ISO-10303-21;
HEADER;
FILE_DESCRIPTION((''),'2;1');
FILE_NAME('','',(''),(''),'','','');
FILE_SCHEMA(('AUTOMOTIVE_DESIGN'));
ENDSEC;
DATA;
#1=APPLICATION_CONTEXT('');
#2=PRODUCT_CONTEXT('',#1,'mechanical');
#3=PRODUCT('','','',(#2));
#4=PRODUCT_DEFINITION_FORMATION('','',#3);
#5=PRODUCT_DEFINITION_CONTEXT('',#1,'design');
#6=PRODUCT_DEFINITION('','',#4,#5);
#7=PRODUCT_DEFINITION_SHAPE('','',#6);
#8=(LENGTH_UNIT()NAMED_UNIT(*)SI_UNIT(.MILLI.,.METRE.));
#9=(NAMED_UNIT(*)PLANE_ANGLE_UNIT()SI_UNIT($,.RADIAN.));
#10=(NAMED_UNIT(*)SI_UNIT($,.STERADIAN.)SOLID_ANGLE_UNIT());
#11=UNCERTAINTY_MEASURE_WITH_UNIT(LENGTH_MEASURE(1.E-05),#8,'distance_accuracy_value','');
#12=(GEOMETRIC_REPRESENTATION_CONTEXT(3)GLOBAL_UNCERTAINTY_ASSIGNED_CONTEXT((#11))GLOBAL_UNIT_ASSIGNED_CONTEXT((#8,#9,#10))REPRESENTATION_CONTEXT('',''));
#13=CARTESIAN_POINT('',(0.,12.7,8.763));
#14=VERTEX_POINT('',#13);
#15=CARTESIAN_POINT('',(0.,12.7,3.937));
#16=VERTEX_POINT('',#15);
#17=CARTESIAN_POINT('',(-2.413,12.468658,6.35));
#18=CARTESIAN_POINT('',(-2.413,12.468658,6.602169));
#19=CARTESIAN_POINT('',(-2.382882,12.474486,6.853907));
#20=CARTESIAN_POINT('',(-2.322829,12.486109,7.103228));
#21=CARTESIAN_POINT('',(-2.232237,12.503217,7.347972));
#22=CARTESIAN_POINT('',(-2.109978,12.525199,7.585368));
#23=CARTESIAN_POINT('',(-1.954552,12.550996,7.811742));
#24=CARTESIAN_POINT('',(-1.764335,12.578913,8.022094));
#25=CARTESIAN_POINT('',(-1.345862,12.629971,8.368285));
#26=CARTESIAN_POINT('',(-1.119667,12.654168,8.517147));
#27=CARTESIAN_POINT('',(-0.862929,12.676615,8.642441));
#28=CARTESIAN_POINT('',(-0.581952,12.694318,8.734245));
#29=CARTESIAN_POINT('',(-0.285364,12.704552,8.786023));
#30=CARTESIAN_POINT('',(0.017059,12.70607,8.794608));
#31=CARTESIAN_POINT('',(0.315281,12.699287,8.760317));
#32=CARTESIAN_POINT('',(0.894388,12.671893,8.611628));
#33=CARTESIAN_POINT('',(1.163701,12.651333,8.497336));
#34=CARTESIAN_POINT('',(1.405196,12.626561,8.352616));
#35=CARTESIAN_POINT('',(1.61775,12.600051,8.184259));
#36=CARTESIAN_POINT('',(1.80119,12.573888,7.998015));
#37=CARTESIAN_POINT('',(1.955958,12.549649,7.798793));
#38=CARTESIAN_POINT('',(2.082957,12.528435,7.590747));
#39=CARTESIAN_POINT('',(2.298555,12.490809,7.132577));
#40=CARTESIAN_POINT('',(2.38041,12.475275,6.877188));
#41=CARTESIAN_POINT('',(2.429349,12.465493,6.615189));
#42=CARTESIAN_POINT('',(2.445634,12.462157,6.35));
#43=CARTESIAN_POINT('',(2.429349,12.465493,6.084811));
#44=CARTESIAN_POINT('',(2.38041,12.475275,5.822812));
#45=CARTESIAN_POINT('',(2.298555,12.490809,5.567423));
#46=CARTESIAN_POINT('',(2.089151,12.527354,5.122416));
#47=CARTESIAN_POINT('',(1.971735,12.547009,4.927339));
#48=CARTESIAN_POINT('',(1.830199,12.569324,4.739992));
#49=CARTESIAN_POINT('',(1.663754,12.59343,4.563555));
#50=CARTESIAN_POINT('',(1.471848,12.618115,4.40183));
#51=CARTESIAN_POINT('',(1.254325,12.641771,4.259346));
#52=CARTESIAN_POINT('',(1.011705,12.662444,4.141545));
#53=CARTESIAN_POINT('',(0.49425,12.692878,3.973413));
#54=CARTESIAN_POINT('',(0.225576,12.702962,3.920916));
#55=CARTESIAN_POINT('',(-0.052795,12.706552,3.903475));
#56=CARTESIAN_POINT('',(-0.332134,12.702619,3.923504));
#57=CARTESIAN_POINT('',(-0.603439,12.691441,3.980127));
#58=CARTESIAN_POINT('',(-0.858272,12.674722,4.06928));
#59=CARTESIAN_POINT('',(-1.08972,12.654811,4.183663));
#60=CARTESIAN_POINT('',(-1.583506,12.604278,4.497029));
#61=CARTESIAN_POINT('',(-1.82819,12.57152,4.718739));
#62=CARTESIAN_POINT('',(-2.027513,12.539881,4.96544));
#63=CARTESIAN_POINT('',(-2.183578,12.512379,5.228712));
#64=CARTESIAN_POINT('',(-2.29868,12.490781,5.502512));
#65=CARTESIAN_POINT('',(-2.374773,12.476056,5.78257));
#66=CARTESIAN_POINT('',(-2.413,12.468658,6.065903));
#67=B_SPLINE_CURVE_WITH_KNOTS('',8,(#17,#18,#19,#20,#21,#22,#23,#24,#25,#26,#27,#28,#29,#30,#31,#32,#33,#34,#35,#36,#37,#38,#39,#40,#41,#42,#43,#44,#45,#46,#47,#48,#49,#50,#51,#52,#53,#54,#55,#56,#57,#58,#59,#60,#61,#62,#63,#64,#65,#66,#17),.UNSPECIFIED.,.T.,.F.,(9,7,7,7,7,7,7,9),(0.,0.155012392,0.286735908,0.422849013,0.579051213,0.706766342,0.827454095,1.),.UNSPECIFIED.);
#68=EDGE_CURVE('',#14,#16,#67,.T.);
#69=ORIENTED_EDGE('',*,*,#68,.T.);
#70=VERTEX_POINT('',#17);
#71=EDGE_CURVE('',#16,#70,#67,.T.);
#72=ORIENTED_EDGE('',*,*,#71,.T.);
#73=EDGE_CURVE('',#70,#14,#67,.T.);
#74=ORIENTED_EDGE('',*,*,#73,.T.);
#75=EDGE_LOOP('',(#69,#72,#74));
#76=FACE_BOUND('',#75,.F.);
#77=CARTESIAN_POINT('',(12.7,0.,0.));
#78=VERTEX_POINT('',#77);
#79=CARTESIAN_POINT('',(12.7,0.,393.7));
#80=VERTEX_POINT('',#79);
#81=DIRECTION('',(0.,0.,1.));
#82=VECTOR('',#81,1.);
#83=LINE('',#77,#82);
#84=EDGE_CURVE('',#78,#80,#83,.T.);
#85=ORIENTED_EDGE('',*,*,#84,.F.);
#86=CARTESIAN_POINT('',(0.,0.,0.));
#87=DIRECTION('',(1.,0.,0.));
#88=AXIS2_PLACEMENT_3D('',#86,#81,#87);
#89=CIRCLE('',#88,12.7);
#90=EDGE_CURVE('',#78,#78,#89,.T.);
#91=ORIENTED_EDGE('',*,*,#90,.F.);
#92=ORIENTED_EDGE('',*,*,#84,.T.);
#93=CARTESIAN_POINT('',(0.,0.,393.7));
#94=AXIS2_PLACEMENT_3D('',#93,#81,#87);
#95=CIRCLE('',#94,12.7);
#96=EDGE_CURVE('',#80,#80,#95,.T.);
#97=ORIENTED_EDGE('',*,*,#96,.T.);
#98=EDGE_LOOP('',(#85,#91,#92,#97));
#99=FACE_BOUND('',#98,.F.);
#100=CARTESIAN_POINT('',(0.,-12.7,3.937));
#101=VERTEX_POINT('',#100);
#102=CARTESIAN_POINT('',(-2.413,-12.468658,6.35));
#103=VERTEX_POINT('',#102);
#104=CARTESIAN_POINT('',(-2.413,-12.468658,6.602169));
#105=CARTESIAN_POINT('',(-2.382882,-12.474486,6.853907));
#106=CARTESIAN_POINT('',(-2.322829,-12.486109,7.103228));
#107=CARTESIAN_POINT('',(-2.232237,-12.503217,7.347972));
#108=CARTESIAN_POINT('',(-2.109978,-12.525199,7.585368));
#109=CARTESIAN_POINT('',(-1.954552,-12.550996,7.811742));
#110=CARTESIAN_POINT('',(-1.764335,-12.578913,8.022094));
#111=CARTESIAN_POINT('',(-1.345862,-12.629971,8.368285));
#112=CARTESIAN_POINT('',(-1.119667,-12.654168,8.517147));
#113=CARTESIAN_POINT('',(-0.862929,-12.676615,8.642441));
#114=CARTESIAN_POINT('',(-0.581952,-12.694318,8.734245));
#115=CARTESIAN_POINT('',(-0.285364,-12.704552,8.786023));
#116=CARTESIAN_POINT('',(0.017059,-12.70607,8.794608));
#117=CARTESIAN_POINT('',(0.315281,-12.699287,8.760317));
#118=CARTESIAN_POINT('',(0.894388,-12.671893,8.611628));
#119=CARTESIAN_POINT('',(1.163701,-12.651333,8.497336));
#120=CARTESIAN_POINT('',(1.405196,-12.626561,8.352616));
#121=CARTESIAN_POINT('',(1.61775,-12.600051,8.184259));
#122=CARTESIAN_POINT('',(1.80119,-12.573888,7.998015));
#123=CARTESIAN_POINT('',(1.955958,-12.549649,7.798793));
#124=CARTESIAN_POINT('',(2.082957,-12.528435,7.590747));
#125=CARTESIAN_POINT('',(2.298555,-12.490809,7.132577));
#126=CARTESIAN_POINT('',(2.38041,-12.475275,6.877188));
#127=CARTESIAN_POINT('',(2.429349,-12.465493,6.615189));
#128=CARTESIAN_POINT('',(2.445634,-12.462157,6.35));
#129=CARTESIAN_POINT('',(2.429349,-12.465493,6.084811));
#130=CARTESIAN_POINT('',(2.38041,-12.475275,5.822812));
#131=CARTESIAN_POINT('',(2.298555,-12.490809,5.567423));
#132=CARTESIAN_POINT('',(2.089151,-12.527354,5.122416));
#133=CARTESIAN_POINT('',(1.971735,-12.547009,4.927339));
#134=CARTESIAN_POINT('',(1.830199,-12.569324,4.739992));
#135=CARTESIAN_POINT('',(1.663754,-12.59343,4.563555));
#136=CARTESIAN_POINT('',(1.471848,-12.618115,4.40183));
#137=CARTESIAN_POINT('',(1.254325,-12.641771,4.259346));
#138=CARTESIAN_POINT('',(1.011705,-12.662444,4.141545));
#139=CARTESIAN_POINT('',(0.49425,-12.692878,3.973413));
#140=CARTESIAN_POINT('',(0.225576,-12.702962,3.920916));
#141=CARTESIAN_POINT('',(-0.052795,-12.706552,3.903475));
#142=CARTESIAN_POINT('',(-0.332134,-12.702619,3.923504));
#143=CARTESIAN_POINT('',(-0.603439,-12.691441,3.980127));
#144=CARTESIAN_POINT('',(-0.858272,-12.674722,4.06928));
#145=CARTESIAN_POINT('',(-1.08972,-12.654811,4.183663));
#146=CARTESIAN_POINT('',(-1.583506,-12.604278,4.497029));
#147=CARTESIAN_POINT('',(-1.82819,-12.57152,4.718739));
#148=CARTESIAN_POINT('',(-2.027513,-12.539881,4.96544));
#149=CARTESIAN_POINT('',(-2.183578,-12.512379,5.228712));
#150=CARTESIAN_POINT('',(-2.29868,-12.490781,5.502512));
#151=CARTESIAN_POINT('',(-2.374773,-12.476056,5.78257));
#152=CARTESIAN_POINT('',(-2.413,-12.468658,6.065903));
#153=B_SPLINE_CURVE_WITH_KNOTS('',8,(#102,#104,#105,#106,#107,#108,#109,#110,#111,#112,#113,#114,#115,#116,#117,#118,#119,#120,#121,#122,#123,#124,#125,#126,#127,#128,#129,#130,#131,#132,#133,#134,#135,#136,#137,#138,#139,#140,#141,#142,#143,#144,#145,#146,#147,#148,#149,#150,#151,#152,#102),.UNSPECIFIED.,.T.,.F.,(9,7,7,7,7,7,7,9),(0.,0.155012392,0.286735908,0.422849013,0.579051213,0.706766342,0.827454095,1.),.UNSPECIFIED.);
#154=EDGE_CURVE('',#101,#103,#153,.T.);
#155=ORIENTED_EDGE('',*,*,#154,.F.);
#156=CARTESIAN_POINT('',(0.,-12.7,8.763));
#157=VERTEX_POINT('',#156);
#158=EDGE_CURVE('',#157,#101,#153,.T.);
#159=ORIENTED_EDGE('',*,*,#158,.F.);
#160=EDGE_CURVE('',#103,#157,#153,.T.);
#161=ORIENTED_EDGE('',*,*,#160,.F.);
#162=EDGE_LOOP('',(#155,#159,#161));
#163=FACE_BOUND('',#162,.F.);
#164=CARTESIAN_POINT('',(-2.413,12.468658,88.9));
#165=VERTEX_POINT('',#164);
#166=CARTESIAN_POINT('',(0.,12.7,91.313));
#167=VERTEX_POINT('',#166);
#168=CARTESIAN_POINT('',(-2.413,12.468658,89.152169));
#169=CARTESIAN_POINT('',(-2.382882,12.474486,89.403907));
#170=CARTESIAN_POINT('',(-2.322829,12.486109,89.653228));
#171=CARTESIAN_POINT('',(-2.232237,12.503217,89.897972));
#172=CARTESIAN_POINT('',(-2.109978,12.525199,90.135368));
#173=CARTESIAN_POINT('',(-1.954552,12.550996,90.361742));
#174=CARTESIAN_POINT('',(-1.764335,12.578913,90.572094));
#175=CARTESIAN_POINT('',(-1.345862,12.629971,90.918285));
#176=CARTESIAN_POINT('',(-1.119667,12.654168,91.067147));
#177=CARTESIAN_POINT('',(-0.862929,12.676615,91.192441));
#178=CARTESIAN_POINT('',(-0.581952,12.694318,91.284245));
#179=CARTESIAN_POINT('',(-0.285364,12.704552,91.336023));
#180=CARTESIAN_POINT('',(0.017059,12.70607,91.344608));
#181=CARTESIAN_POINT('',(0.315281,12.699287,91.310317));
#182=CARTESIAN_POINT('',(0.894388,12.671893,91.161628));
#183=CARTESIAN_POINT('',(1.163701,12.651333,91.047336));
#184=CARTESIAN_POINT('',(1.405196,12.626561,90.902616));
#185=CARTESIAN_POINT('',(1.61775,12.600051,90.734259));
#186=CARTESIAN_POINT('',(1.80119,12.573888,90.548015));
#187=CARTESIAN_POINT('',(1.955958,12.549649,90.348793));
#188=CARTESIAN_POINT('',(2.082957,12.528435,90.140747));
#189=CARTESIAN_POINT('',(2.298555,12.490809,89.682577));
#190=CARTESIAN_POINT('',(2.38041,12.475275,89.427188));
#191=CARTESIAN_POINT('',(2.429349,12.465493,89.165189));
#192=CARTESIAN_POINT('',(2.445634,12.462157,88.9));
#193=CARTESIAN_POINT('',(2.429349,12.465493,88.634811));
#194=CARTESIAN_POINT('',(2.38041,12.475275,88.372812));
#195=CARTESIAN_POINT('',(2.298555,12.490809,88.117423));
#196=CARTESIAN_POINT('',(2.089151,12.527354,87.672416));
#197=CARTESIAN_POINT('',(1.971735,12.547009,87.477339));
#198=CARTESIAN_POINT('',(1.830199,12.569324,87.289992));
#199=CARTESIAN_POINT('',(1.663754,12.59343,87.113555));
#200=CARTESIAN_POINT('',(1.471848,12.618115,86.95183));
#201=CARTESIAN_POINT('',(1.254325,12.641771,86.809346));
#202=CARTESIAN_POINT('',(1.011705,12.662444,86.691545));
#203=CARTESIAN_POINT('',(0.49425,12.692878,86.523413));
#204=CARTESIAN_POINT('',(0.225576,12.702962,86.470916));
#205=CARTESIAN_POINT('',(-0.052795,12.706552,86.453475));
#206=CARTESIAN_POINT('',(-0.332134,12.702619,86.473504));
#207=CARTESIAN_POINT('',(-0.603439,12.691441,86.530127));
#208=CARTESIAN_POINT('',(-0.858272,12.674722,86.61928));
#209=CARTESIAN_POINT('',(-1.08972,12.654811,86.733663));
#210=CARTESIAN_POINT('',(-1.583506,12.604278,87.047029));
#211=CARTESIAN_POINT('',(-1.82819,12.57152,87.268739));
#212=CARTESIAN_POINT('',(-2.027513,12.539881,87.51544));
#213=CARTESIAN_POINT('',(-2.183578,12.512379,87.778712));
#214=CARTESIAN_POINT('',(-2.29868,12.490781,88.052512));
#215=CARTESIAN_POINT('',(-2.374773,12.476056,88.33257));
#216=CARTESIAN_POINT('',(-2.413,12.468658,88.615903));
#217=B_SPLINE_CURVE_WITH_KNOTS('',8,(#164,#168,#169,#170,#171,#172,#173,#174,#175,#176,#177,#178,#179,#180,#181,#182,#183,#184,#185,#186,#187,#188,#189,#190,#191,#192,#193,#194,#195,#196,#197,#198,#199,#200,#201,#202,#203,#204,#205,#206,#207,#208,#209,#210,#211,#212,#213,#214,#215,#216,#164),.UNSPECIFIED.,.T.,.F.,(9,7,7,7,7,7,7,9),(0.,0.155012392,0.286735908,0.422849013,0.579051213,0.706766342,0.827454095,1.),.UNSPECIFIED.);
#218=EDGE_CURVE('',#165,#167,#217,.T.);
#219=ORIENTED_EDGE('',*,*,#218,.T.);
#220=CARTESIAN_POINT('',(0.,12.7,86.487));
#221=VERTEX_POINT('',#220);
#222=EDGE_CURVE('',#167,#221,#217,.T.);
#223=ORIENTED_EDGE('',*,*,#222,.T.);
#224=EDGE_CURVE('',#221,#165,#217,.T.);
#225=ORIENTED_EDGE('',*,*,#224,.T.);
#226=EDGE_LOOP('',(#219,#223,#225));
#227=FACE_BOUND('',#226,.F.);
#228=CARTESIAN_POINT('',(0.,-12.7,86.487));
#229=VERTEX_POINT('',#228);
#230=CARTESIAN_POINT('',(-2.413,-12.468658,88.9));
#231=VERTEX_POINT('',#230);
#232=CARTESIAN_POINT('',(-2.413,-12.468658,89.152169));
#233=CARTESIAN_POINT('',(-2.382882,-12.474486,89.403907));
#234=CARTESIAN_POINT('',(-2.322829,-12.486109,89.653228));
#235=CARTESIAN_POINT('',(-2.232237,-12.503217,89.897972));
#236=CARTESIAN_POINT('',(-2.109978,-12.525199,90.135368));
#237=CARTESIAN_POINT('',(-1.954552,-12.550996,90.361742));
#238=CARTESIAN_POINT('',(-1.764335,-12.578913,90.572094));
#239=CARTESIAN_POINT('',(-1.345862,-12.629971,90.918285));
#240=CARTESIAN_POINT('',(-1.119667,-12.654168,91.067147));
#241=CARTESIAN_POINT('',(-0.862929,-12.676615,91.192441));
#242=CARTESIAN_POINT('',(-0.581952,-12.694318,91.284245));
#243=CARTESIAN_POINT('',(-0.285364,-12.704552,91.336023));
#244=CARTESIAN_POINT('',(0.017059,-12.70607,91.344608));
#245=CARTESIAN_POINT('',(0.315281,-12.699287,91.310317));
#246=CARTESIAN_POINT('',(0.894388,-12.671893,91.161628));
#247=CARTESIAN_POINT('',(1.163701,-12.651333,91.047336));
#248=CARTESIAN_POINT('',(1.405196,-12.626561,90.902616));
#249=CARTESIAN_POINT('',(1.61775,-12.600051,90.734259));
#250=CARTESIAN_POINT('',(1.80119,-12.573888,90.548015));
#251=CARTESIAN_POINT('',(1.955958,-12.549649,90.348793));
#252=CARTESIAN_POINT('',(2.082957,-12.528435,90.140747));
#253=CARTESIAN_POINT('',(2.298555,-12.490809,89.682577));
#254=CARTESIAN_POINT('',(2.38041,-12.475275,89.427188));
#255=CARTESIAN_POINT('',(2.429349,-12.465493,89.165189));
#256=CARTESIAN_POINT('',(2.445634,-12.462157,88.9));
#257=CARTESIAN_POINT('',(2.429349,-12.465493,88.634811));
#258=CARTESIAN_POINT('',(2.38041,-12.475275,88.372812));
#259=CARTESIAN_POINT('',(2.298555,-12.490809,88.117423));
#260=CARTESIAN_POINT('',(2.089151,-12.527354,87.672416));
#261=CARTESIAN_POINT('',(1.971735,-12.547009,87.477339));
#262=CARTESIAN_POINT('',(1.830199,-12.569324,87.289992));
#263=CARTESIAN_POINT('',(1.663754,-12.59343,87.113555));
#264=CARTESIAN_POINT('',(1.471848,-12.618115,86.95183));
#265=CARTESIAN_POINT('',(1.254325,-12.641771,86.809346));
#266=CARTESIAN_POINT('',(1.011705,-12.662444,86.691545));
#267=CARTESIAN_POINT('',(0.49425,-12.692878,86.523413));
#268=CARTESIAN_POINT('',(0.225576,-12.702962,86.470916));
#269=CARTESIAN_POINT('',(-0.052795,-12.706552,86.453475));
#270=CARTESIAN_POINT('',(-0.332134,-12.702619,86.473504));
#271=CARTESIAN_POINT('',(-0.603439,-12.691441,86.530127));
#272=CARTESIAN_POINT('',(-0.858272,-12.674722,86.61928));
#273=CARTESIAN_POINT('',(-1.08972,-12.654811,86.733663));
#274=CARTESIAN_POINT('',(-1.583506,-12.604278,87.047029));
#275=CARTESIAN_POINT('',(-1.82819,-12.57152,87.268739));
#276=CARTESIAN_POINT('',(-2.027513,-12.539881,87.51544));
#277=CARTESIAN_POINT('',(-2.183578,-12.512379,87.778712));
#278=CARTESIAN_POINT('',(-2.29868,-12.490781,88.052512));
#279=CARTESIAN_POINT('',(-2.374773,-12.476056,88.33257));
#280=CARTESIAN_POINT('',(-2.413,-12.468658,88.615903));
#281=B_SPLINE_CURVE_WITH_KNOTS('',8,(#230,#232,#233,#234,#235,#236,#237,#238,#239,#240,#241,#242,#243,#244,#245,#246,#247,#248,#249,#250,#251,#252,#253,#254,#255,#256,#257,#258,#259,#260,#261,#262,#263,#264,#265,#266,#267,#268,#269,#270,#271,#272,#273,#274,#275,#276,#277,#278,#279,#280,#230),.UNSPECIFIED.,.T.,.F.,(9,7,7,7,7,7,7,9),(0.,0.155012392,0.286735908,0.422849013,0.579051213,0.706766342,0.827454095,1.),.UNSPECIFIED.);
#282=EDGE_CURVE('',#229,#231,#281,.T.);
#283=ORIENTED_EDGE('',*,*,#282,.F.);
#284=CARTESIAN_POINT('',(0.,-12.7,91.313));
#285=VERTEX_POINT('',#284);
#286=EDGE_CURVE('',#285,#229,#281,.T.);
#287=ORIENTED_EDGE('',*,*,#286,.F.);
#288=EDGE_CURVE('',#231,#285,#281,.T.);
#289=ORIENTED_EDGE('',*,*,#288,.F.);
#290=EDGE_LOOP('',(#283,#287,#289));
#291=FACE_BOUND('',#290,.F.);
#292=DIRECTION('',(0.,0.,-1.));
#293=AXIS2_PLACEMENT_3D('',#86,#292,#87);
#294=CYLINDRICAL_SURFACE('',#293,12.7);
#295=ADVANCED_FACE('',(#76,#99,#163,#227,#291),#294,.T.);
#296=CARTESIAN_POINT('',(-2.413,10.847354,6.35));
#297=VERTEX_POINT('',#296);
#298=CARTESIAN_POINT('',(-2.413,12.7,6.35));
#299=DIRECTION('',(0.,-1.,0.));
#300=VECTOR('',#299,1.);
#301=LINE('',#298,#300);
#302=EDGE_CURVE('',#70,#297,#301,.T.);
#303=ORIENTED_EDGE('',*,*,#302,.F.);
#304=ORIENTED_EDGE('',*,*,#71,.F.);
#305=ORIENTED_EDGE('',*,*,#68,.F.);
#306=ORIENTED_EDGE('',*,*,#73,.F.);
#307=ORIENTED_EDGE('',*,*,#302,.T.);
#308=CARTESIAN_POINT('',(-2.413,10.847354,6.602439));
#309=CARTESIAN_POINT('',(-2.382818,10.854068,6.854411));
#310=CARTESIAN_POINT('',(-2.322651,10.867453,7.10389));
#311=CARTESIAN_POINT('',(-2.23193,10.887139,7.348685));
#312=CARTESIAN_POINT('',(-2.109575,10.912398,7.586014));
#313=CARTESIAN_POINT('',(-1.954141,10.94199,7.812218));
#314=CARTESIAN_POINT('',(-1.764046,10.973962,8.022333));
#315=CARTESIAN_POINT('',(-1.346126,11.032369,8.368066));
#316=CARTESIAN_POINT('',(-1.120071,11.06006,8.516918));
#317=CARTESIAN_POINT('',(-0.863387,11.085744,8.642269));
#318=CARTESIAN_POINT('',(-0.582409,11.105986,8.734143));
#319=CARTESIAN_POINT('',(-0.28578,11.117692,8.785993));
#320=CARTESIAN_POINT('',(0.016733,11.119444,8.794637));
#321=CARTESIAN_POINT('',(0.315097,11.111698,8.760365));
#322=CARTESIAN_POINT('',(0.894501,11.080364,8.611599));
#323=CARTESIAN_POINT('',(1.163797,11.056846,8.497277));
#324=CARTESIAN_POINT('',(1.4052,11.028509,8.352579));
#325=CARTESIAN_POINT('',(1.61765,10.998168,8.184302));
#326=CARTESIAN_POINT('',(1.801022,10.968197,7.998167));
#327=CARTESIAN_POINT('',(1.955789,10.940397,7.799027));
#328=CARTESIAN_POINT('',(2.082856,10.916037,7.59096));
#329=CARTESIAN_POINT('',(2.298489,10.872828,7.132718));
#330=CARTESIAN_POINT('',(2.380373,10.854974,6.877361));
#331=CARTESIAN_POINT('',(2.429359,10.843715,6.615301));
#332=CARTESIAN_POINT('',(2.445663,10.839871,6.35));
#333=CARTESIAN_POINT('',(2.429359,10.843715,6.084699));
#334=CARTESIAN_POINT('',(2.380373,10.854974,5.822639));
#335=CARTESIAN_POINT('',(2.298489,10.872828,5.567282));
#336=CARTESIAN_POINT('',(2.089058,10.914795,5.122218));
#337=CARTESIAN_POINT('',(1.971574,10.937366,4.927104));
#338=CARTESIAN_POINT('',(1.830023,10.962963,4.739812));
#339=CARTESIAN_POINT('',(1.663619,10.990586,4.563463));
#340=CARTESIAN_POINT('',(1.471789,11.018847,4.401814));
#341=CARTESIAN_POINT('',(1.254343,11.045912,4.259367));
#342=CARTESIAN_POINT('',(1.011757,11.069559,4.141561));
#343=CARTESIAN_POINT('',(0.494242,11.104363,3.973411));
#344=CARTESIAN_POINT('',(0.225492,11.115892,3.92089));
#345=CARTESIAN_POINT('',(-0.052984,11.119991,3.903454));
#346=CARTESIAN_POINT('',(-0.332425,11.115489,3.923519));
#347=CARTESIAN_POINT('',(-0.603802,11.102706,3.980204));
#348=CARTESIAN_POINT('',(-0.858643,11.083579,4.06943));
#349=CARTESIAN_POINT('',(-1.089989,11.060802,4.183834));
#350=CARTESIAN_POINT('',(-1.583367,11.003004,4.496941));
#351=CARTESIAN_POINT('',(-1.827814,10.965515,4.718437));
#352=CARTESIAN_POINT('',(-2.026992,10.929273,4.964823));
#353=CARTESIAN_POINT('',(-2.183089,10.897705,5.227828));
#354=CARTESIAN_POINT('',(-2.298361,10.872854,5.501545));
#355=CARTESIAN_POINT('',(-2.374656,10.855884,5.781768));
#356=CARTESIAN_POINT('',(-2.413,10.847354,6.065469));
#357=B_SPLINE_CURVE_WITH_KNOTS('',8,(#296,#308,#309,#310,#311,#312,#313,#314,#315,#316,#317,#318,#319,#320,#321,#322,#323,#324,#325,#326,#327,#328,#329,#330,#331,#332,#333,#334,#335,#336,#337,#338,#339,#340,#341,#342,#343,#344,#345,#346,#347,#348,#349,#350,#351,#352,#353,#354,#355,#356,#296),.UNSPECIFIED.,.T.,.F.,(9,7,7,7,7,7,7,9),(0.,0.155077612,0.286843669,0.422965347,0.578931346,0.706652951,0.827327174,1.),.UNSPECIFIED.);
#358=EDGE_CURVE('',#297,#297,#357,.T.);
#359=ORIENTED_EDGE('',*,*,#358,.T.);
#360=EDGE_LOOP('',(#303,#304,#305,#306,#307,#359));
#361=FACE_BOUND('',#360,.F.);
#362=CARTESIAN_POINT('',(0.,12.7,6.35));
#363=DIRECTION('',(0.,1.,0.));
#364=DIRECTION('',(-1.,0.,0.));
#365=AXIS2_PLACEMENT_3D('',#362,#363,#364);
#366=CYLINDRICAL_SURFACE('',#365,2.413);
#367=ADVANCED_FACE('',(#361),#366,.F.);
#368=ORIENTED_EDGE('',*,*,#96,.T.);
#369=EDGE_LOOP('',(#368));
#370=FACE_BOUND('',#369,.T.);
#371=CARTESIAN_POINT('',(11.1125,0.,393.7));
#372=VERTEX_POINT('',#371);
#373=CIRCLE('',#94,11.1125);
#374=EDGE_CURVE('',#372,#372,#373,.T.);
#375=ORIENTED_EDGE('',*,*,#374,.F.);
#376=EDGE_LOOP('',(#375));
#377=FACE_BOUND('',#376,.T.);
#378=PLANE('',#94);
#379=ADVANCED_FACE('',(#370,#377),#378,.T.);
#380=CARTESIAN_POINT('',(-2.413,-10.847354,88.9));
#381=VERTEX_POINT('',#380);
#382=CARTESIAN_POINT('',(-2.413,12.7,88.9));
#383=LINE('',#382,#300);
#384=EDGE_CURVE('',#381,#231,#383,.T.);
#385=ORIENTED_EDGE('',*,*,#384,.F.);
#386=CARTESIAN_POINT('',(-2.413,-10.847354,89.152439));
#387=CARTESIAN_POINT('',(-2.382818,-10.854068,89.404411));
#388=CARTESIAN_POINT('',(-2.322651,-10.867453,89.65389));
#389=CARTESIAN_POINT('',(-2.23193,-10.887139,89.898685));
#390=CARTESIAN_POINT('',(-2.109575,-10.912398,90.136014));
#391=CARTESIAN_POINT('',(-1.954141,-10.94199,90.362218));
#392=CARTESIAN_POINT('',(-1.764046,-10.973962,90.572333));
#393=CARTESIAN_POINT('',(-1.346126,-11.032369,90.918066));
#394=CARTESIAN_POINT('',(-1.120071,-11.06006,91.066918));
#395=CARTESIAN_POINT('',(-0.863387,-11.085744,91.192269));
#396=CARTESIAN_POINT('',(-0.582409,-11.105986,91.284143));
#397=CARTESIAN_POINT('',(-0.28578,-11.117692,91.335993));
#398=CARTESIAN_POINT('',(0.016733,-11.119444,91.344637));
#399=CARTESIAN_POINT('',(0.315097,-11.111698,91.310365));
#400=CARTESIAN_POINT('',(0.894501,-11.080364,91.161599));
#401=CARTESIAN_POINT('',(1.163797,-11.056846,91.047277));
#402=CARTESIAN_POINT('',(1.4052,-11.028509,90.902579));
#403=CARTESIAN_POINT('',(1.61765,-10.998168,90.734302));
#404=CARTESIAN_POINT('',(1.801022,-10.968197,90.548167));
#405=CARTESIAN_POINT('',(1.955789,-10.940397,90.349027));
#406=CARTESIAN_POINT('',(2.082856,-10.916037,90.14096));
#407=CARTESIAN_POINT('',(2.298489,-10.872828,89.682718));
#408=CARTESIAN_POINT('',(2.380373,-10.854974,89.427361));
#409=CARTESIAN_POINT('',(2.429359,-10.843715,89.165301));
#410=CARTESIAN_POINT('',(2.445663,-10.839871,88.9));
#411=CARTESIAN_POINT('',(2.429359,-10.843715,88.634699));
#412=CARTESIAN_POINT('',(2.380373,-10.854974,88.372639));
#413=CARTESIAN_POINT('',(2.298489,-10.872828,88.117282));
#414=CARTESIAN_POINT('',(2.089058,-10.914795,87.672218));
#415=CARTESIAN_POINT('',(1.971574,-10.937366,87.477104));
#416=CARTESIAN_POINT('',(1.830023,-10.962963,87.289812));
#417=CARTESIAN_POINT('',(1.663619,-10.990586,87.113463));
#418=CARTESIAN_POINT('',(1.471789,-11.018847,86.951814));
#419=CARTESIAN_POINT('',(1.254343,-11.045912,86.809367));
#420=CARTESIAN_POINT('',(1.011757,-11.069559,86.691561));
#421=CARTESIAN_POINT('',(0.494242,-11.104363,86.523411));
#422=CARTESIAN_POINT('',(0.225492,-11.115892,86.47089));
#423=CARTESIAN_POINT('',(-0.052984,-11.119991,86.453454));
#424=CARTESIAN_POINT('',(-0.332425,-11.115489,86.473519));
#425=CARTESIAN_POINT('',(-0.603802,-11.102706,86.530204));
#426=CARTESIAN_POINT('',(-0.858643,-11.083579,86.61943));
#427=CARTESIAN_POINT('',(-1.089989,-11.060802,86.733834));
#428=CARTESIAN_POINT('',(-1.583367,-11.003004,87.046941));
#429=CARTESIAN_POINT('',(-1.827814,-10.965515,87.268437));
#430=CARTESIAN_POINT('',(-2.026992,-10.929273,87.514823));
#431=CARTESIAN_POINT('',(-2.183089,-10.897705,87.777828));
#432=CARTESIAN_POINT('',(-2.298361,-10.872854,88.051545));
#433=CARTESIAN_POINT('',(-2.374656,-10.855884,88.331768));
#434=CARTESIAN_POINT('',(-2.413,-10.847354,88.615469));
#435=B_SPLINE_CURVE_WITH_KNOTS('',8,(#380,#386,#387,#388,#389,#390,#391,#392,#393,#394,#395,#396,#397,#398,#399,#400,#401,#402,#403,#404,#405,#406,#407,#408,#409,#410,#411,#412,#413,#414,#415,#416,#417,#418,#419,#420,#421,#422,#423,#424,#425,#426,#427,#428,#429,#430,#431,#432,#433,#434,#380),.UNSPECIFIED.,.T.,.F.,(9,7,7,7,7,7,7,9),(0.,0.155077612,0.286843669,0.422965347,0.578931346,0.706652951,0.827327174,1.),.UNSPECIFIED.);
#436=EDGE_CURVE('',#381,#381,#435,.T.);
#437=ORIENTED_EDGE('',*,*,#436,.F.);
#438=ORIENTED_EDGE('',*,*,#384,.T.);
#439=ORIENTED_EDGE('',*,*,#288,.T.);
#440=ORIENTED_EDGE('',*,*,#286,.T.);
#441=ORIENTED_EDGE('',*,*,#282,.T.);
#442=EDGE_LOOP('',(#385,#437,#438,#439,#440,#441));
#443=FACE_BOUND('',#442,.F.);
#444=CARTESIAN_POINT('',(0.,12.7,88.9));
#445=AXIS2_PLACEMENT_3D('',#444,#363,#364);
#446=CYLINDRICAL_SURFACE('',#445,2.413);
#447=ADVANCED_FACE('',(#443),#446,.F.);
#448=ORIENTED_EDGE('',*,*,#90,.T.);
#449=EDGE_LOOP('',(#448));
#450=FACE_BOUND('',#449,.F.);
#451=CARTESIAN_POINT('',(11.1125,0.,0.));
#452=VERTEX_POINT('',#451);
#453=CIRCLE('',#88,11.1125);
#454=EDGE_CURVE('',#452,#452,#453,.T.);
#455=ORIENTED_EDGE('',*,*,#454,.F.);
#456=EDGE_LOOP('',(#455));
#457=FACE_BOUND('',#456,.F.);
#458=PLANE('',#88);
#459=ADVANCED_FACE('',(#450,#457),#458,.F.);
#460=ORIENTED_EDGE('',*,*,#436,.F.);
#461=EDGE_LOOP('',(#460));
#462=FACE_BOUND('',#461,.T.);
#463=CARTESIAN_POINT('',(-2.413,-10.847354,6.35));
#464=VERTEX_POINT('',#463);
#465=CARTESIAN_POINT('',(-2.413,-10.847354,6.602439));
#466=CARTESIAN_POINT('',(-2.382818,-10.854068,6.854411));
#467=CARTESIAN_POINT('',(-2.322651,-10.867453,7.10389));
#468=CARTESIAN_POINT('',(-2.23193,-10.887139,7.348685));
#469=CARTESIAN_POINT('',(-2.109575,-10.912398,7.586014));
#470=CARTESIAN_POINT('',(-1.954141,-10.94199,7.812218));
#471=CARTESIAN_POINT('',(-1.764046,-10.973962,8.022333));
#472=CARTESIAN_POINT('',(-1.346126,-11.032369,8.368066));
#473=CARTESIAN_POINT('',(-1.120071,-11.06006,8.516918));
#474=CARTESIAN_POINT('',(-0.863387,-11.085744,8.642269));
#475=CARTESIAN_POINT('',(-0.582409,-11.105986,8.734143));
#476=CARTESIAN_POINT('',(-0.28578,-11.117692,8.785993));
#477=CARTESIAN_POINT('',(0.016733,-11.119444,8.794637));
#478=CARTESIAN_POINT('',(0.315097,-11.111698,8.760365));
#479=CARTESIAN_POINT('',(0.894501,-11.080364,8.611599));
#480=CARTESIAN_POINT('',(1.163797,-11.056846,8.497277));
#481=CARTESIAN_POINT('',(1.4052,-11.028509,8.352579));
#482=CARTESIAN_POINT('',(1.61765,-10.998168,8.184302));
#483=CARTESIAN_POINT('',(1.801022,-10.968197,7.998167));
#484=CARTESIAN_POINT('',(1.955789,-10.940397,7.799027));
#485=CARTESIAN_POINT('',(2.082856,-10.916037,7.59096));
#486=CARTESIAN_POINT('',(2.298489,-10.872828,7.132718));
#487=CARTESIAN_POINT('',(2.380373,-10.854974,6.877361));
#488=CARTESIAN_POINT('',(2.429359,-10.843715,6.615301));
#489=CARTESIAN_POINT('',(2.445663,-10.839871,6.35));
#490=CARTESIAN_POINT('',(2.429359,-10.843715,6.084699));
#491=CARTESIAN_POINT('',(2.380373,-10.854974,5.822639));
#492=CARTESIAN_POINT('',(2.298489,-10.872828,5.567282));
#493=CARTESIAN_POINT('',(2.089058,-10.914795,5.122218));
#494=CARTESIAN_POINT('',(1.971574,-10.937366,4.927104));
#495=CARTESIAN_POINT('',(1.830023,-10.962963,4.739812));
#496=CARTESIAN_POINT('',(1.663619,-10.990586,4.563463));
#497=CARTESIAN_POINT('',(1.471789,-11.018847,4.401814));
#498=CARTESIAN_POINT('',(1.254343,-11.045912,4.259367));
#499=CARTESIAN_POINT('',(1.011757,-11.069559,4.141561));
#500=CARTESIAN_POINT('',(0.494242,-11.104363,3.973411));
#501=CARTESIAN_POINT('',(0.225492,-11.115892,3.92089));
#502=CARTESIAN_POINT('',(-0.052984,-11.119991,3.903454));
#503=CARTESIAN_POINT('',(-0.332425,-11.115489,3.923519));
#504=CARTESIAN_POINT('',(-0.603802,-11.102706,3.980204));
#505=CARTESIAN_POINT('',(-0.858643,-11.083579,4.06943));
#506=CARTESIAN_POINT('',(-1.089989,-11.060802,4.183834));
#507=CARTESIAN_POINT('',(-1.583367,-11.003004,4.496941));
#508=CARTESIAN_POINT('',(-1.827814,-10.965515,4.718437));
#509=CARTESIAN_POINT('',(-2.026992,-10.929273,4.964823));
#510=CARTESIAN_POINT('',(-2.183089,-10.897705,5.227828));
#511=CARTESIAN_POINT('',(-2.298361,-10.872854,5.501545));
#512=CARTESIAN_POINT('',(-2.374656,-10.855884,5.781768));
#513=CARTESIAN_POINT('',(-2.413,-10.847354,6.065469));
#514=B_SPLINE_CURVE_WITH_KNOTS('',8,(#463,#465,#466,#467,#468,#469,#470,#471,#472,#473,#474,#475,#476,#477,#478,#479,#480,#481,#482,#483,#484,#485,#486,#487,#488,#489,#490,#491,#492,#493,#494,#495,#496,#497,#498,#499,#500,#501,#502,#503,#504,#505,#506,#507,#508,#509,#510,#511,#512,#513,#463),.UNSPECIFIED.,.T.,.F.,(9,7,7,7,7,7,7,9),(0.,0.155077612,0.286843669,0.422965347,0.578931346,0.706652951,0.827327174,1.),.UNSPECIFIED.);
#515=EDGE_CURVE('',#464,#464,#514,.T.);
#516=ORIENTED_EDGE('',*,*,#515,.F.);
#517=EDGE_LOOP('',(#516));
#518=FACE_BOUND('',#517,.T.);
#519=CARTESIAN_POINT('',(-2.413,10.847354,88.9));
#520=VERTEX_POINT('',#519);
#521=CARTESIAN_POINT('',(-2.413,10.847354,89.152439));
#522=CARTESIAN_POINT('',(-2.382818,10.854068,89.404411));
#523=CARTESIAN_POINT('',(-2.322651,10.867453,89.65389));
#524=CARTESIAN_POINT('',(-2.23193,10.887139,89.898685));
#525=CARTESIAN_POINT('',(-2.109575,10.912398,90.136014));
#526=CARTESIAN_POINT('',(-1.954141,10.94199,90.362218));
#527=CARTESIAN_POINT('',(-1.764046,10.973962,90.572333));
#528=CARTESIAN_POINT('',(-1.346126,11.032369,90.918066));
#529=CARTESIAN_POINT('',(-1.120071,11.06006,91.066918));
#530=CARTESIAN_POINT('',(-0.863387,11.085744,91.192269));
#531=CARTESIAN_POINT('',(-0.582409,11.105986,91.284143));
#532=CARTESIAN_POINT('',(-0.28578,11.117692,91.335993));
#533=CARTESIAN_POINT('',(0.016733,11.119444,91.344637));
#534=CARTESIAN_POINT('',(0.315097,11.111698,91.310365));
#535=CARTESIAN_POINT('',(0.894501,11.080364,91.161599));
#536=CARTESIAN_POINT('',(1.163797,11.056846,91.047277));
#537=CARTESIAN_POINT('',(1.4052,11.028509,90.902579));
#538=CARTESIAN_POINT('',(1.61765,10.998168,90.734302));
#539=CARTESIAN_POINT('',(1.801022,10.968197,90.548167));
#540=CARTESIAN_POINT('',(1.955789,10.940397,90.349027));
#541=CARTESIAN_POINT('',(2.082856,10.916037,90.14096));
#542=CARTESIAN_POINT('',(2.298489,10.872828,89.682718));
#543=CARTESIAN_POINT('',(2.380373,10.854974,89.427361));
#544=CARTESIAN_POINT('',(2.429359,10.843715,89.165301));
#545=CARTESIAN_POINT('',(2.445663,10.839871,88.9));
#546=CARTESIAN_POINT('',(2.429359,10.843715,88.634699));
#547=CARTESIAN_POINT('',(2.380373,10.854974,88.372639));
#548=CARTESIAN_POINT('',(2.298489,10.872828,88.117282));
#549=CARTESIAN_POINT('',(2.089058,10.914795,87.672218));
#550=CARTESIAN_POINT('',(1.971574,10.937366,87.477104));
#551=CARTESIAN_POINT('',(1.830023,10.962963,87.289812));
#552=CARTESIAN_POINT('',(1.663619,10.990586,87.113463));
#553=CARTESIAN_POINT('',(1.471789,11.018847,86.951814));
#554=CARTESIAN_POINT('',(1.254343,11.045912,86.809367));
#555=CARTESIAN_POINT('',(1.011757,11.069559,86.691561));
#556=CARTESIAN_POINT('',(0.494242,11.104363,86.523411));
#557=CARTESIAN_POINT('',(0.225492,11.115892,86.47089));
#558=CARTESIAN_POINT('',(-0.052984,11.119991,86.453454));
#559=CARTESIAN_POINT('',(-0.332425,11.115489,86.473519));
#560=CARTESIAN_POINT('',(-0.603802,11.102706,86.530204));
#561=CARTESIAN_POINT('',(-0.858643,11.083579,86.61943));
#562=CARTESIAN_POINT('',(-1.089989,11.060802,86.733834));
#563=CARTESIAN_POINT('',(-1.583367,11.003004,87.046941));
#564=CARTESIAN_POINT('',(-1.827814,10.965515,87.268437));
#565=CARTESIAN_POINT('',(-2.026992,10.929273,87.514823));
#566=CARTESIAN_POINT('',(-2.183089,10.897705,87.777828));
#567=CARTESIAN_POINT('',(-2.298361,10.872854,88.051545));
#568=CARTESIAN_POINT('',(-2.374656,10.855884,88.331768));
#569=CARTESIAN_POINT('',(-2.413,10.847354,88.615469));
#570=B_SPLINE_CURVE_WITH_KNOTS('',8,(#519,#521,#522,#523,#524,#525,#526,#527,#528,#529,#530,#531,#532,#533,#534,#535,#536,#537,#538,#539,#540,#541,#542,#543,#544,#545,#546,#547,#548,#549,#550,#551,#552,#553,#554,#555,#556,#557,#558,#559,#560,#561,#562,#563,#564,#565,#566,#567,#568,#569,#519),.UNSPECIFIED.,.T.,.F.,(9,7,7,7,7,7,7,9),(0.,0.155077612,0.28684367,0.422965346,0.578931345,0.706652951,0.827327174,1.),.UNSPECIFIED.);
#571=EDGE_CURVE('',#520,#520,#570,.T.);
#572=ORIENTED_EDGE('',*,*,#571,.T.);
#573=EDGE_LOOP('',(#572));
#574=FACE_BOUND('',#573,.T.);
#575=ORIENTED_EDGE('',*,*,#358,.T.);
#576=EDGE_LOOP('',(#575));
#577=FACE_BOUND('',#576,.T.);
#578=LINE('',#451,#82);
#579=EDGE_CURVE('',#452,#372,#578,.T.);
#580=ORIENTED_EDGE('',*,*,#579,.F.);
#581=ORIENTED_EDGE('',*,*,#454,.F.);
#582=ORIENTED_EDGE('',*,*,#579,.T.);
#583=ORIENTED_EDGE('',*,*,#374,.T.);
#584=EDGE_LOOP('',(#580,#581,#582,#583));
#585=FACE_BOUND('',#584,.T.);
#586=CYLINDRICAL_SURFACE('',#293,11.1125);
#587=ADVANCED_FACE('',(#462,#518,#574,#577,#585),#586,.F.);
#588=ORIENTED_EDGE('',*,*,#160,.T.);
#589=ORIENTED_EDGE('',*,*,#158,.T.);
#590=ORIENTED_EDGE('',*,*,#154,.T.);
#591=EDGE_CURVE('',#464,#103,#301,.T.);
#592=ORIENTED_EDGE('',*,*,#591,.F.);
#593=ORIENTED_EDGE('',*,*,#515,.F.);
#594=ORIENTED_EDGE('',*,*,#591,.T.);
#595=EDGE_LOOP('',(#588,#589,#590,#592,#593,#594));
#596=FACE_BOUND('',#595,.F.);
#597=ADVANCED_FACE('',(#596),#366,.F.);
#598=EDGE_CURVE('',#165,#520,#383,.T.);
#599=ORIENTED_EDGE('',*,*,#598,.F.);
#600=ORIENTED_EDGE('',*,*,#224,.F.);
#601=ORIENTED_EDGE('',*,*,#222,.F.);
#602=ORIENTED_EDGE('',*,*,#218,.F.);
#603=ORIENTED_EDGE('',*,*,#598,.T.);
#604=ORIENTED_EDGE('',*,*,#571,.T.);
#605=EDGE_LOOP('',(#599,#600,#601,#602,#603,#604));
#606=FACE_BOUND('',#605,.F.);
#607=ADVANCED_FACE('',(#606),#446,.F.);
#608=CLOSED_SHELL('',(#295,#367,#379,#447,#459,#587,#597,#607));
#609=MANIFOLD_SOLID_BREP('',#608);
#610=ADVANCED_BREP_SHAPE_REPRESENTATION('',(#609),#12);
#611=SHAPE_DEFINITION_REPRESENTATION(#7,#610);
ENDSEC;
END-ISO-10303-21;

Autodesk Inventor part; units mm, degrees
ref_plane "YZ Plane" through (0, 0, 0) normal (1, 0, 0) x (0, 1, 0)
ref_plane "XY Plane" through (0, 0, 0) normal (0, 0, 1) x (1, 0, 0)
sketch "Sketch1" plane through (0, 0, 0) normal (0, 0, 1) x (1, 0, 0)
  circle A0 centre (0, 0) radius 12.7
  circle A1 centre (0, 0) radius 11.1125
  dimension "d0" = 25.4
  dimension "d1" = 22.225
extrude "Extrusion1" add sketch "Sketch1" along normal blind 393.7
ref_plane "Work Plane1" through (0, 12.7, 0) normal (0, 1, 0) x (-1, 0, 0)
sketch "Sketch2" plane through (0, 12.7, 0) normal (0, 1, 0) x (-1, 0, 0)
  line L0 (-12.7, 0) -> (-12.7, 393.7) projected
  line L1 (-12.7, 0) -> (12.7, 0) projected
  line L2 (12.7, 0) -> (12.7, 393.7) projected
  circle A0 centre (0, 6.35) radius 2.413
  circle A1 centre (0, 88.9) radius 2.413
  line L3 (0, 0) -> (0, 58.059) construction
  dimension "d4" = 4.826
  dimension "d6" = 6.35
  dimension "d7" = 88.9
extrude "Extrusion2" cut sketch "Sketch2" against normal blind 25.4
properties part number "Polycarbonate Clamp Tube 1 in OD (8585K14)" material "Polycarbonate, Clear"
